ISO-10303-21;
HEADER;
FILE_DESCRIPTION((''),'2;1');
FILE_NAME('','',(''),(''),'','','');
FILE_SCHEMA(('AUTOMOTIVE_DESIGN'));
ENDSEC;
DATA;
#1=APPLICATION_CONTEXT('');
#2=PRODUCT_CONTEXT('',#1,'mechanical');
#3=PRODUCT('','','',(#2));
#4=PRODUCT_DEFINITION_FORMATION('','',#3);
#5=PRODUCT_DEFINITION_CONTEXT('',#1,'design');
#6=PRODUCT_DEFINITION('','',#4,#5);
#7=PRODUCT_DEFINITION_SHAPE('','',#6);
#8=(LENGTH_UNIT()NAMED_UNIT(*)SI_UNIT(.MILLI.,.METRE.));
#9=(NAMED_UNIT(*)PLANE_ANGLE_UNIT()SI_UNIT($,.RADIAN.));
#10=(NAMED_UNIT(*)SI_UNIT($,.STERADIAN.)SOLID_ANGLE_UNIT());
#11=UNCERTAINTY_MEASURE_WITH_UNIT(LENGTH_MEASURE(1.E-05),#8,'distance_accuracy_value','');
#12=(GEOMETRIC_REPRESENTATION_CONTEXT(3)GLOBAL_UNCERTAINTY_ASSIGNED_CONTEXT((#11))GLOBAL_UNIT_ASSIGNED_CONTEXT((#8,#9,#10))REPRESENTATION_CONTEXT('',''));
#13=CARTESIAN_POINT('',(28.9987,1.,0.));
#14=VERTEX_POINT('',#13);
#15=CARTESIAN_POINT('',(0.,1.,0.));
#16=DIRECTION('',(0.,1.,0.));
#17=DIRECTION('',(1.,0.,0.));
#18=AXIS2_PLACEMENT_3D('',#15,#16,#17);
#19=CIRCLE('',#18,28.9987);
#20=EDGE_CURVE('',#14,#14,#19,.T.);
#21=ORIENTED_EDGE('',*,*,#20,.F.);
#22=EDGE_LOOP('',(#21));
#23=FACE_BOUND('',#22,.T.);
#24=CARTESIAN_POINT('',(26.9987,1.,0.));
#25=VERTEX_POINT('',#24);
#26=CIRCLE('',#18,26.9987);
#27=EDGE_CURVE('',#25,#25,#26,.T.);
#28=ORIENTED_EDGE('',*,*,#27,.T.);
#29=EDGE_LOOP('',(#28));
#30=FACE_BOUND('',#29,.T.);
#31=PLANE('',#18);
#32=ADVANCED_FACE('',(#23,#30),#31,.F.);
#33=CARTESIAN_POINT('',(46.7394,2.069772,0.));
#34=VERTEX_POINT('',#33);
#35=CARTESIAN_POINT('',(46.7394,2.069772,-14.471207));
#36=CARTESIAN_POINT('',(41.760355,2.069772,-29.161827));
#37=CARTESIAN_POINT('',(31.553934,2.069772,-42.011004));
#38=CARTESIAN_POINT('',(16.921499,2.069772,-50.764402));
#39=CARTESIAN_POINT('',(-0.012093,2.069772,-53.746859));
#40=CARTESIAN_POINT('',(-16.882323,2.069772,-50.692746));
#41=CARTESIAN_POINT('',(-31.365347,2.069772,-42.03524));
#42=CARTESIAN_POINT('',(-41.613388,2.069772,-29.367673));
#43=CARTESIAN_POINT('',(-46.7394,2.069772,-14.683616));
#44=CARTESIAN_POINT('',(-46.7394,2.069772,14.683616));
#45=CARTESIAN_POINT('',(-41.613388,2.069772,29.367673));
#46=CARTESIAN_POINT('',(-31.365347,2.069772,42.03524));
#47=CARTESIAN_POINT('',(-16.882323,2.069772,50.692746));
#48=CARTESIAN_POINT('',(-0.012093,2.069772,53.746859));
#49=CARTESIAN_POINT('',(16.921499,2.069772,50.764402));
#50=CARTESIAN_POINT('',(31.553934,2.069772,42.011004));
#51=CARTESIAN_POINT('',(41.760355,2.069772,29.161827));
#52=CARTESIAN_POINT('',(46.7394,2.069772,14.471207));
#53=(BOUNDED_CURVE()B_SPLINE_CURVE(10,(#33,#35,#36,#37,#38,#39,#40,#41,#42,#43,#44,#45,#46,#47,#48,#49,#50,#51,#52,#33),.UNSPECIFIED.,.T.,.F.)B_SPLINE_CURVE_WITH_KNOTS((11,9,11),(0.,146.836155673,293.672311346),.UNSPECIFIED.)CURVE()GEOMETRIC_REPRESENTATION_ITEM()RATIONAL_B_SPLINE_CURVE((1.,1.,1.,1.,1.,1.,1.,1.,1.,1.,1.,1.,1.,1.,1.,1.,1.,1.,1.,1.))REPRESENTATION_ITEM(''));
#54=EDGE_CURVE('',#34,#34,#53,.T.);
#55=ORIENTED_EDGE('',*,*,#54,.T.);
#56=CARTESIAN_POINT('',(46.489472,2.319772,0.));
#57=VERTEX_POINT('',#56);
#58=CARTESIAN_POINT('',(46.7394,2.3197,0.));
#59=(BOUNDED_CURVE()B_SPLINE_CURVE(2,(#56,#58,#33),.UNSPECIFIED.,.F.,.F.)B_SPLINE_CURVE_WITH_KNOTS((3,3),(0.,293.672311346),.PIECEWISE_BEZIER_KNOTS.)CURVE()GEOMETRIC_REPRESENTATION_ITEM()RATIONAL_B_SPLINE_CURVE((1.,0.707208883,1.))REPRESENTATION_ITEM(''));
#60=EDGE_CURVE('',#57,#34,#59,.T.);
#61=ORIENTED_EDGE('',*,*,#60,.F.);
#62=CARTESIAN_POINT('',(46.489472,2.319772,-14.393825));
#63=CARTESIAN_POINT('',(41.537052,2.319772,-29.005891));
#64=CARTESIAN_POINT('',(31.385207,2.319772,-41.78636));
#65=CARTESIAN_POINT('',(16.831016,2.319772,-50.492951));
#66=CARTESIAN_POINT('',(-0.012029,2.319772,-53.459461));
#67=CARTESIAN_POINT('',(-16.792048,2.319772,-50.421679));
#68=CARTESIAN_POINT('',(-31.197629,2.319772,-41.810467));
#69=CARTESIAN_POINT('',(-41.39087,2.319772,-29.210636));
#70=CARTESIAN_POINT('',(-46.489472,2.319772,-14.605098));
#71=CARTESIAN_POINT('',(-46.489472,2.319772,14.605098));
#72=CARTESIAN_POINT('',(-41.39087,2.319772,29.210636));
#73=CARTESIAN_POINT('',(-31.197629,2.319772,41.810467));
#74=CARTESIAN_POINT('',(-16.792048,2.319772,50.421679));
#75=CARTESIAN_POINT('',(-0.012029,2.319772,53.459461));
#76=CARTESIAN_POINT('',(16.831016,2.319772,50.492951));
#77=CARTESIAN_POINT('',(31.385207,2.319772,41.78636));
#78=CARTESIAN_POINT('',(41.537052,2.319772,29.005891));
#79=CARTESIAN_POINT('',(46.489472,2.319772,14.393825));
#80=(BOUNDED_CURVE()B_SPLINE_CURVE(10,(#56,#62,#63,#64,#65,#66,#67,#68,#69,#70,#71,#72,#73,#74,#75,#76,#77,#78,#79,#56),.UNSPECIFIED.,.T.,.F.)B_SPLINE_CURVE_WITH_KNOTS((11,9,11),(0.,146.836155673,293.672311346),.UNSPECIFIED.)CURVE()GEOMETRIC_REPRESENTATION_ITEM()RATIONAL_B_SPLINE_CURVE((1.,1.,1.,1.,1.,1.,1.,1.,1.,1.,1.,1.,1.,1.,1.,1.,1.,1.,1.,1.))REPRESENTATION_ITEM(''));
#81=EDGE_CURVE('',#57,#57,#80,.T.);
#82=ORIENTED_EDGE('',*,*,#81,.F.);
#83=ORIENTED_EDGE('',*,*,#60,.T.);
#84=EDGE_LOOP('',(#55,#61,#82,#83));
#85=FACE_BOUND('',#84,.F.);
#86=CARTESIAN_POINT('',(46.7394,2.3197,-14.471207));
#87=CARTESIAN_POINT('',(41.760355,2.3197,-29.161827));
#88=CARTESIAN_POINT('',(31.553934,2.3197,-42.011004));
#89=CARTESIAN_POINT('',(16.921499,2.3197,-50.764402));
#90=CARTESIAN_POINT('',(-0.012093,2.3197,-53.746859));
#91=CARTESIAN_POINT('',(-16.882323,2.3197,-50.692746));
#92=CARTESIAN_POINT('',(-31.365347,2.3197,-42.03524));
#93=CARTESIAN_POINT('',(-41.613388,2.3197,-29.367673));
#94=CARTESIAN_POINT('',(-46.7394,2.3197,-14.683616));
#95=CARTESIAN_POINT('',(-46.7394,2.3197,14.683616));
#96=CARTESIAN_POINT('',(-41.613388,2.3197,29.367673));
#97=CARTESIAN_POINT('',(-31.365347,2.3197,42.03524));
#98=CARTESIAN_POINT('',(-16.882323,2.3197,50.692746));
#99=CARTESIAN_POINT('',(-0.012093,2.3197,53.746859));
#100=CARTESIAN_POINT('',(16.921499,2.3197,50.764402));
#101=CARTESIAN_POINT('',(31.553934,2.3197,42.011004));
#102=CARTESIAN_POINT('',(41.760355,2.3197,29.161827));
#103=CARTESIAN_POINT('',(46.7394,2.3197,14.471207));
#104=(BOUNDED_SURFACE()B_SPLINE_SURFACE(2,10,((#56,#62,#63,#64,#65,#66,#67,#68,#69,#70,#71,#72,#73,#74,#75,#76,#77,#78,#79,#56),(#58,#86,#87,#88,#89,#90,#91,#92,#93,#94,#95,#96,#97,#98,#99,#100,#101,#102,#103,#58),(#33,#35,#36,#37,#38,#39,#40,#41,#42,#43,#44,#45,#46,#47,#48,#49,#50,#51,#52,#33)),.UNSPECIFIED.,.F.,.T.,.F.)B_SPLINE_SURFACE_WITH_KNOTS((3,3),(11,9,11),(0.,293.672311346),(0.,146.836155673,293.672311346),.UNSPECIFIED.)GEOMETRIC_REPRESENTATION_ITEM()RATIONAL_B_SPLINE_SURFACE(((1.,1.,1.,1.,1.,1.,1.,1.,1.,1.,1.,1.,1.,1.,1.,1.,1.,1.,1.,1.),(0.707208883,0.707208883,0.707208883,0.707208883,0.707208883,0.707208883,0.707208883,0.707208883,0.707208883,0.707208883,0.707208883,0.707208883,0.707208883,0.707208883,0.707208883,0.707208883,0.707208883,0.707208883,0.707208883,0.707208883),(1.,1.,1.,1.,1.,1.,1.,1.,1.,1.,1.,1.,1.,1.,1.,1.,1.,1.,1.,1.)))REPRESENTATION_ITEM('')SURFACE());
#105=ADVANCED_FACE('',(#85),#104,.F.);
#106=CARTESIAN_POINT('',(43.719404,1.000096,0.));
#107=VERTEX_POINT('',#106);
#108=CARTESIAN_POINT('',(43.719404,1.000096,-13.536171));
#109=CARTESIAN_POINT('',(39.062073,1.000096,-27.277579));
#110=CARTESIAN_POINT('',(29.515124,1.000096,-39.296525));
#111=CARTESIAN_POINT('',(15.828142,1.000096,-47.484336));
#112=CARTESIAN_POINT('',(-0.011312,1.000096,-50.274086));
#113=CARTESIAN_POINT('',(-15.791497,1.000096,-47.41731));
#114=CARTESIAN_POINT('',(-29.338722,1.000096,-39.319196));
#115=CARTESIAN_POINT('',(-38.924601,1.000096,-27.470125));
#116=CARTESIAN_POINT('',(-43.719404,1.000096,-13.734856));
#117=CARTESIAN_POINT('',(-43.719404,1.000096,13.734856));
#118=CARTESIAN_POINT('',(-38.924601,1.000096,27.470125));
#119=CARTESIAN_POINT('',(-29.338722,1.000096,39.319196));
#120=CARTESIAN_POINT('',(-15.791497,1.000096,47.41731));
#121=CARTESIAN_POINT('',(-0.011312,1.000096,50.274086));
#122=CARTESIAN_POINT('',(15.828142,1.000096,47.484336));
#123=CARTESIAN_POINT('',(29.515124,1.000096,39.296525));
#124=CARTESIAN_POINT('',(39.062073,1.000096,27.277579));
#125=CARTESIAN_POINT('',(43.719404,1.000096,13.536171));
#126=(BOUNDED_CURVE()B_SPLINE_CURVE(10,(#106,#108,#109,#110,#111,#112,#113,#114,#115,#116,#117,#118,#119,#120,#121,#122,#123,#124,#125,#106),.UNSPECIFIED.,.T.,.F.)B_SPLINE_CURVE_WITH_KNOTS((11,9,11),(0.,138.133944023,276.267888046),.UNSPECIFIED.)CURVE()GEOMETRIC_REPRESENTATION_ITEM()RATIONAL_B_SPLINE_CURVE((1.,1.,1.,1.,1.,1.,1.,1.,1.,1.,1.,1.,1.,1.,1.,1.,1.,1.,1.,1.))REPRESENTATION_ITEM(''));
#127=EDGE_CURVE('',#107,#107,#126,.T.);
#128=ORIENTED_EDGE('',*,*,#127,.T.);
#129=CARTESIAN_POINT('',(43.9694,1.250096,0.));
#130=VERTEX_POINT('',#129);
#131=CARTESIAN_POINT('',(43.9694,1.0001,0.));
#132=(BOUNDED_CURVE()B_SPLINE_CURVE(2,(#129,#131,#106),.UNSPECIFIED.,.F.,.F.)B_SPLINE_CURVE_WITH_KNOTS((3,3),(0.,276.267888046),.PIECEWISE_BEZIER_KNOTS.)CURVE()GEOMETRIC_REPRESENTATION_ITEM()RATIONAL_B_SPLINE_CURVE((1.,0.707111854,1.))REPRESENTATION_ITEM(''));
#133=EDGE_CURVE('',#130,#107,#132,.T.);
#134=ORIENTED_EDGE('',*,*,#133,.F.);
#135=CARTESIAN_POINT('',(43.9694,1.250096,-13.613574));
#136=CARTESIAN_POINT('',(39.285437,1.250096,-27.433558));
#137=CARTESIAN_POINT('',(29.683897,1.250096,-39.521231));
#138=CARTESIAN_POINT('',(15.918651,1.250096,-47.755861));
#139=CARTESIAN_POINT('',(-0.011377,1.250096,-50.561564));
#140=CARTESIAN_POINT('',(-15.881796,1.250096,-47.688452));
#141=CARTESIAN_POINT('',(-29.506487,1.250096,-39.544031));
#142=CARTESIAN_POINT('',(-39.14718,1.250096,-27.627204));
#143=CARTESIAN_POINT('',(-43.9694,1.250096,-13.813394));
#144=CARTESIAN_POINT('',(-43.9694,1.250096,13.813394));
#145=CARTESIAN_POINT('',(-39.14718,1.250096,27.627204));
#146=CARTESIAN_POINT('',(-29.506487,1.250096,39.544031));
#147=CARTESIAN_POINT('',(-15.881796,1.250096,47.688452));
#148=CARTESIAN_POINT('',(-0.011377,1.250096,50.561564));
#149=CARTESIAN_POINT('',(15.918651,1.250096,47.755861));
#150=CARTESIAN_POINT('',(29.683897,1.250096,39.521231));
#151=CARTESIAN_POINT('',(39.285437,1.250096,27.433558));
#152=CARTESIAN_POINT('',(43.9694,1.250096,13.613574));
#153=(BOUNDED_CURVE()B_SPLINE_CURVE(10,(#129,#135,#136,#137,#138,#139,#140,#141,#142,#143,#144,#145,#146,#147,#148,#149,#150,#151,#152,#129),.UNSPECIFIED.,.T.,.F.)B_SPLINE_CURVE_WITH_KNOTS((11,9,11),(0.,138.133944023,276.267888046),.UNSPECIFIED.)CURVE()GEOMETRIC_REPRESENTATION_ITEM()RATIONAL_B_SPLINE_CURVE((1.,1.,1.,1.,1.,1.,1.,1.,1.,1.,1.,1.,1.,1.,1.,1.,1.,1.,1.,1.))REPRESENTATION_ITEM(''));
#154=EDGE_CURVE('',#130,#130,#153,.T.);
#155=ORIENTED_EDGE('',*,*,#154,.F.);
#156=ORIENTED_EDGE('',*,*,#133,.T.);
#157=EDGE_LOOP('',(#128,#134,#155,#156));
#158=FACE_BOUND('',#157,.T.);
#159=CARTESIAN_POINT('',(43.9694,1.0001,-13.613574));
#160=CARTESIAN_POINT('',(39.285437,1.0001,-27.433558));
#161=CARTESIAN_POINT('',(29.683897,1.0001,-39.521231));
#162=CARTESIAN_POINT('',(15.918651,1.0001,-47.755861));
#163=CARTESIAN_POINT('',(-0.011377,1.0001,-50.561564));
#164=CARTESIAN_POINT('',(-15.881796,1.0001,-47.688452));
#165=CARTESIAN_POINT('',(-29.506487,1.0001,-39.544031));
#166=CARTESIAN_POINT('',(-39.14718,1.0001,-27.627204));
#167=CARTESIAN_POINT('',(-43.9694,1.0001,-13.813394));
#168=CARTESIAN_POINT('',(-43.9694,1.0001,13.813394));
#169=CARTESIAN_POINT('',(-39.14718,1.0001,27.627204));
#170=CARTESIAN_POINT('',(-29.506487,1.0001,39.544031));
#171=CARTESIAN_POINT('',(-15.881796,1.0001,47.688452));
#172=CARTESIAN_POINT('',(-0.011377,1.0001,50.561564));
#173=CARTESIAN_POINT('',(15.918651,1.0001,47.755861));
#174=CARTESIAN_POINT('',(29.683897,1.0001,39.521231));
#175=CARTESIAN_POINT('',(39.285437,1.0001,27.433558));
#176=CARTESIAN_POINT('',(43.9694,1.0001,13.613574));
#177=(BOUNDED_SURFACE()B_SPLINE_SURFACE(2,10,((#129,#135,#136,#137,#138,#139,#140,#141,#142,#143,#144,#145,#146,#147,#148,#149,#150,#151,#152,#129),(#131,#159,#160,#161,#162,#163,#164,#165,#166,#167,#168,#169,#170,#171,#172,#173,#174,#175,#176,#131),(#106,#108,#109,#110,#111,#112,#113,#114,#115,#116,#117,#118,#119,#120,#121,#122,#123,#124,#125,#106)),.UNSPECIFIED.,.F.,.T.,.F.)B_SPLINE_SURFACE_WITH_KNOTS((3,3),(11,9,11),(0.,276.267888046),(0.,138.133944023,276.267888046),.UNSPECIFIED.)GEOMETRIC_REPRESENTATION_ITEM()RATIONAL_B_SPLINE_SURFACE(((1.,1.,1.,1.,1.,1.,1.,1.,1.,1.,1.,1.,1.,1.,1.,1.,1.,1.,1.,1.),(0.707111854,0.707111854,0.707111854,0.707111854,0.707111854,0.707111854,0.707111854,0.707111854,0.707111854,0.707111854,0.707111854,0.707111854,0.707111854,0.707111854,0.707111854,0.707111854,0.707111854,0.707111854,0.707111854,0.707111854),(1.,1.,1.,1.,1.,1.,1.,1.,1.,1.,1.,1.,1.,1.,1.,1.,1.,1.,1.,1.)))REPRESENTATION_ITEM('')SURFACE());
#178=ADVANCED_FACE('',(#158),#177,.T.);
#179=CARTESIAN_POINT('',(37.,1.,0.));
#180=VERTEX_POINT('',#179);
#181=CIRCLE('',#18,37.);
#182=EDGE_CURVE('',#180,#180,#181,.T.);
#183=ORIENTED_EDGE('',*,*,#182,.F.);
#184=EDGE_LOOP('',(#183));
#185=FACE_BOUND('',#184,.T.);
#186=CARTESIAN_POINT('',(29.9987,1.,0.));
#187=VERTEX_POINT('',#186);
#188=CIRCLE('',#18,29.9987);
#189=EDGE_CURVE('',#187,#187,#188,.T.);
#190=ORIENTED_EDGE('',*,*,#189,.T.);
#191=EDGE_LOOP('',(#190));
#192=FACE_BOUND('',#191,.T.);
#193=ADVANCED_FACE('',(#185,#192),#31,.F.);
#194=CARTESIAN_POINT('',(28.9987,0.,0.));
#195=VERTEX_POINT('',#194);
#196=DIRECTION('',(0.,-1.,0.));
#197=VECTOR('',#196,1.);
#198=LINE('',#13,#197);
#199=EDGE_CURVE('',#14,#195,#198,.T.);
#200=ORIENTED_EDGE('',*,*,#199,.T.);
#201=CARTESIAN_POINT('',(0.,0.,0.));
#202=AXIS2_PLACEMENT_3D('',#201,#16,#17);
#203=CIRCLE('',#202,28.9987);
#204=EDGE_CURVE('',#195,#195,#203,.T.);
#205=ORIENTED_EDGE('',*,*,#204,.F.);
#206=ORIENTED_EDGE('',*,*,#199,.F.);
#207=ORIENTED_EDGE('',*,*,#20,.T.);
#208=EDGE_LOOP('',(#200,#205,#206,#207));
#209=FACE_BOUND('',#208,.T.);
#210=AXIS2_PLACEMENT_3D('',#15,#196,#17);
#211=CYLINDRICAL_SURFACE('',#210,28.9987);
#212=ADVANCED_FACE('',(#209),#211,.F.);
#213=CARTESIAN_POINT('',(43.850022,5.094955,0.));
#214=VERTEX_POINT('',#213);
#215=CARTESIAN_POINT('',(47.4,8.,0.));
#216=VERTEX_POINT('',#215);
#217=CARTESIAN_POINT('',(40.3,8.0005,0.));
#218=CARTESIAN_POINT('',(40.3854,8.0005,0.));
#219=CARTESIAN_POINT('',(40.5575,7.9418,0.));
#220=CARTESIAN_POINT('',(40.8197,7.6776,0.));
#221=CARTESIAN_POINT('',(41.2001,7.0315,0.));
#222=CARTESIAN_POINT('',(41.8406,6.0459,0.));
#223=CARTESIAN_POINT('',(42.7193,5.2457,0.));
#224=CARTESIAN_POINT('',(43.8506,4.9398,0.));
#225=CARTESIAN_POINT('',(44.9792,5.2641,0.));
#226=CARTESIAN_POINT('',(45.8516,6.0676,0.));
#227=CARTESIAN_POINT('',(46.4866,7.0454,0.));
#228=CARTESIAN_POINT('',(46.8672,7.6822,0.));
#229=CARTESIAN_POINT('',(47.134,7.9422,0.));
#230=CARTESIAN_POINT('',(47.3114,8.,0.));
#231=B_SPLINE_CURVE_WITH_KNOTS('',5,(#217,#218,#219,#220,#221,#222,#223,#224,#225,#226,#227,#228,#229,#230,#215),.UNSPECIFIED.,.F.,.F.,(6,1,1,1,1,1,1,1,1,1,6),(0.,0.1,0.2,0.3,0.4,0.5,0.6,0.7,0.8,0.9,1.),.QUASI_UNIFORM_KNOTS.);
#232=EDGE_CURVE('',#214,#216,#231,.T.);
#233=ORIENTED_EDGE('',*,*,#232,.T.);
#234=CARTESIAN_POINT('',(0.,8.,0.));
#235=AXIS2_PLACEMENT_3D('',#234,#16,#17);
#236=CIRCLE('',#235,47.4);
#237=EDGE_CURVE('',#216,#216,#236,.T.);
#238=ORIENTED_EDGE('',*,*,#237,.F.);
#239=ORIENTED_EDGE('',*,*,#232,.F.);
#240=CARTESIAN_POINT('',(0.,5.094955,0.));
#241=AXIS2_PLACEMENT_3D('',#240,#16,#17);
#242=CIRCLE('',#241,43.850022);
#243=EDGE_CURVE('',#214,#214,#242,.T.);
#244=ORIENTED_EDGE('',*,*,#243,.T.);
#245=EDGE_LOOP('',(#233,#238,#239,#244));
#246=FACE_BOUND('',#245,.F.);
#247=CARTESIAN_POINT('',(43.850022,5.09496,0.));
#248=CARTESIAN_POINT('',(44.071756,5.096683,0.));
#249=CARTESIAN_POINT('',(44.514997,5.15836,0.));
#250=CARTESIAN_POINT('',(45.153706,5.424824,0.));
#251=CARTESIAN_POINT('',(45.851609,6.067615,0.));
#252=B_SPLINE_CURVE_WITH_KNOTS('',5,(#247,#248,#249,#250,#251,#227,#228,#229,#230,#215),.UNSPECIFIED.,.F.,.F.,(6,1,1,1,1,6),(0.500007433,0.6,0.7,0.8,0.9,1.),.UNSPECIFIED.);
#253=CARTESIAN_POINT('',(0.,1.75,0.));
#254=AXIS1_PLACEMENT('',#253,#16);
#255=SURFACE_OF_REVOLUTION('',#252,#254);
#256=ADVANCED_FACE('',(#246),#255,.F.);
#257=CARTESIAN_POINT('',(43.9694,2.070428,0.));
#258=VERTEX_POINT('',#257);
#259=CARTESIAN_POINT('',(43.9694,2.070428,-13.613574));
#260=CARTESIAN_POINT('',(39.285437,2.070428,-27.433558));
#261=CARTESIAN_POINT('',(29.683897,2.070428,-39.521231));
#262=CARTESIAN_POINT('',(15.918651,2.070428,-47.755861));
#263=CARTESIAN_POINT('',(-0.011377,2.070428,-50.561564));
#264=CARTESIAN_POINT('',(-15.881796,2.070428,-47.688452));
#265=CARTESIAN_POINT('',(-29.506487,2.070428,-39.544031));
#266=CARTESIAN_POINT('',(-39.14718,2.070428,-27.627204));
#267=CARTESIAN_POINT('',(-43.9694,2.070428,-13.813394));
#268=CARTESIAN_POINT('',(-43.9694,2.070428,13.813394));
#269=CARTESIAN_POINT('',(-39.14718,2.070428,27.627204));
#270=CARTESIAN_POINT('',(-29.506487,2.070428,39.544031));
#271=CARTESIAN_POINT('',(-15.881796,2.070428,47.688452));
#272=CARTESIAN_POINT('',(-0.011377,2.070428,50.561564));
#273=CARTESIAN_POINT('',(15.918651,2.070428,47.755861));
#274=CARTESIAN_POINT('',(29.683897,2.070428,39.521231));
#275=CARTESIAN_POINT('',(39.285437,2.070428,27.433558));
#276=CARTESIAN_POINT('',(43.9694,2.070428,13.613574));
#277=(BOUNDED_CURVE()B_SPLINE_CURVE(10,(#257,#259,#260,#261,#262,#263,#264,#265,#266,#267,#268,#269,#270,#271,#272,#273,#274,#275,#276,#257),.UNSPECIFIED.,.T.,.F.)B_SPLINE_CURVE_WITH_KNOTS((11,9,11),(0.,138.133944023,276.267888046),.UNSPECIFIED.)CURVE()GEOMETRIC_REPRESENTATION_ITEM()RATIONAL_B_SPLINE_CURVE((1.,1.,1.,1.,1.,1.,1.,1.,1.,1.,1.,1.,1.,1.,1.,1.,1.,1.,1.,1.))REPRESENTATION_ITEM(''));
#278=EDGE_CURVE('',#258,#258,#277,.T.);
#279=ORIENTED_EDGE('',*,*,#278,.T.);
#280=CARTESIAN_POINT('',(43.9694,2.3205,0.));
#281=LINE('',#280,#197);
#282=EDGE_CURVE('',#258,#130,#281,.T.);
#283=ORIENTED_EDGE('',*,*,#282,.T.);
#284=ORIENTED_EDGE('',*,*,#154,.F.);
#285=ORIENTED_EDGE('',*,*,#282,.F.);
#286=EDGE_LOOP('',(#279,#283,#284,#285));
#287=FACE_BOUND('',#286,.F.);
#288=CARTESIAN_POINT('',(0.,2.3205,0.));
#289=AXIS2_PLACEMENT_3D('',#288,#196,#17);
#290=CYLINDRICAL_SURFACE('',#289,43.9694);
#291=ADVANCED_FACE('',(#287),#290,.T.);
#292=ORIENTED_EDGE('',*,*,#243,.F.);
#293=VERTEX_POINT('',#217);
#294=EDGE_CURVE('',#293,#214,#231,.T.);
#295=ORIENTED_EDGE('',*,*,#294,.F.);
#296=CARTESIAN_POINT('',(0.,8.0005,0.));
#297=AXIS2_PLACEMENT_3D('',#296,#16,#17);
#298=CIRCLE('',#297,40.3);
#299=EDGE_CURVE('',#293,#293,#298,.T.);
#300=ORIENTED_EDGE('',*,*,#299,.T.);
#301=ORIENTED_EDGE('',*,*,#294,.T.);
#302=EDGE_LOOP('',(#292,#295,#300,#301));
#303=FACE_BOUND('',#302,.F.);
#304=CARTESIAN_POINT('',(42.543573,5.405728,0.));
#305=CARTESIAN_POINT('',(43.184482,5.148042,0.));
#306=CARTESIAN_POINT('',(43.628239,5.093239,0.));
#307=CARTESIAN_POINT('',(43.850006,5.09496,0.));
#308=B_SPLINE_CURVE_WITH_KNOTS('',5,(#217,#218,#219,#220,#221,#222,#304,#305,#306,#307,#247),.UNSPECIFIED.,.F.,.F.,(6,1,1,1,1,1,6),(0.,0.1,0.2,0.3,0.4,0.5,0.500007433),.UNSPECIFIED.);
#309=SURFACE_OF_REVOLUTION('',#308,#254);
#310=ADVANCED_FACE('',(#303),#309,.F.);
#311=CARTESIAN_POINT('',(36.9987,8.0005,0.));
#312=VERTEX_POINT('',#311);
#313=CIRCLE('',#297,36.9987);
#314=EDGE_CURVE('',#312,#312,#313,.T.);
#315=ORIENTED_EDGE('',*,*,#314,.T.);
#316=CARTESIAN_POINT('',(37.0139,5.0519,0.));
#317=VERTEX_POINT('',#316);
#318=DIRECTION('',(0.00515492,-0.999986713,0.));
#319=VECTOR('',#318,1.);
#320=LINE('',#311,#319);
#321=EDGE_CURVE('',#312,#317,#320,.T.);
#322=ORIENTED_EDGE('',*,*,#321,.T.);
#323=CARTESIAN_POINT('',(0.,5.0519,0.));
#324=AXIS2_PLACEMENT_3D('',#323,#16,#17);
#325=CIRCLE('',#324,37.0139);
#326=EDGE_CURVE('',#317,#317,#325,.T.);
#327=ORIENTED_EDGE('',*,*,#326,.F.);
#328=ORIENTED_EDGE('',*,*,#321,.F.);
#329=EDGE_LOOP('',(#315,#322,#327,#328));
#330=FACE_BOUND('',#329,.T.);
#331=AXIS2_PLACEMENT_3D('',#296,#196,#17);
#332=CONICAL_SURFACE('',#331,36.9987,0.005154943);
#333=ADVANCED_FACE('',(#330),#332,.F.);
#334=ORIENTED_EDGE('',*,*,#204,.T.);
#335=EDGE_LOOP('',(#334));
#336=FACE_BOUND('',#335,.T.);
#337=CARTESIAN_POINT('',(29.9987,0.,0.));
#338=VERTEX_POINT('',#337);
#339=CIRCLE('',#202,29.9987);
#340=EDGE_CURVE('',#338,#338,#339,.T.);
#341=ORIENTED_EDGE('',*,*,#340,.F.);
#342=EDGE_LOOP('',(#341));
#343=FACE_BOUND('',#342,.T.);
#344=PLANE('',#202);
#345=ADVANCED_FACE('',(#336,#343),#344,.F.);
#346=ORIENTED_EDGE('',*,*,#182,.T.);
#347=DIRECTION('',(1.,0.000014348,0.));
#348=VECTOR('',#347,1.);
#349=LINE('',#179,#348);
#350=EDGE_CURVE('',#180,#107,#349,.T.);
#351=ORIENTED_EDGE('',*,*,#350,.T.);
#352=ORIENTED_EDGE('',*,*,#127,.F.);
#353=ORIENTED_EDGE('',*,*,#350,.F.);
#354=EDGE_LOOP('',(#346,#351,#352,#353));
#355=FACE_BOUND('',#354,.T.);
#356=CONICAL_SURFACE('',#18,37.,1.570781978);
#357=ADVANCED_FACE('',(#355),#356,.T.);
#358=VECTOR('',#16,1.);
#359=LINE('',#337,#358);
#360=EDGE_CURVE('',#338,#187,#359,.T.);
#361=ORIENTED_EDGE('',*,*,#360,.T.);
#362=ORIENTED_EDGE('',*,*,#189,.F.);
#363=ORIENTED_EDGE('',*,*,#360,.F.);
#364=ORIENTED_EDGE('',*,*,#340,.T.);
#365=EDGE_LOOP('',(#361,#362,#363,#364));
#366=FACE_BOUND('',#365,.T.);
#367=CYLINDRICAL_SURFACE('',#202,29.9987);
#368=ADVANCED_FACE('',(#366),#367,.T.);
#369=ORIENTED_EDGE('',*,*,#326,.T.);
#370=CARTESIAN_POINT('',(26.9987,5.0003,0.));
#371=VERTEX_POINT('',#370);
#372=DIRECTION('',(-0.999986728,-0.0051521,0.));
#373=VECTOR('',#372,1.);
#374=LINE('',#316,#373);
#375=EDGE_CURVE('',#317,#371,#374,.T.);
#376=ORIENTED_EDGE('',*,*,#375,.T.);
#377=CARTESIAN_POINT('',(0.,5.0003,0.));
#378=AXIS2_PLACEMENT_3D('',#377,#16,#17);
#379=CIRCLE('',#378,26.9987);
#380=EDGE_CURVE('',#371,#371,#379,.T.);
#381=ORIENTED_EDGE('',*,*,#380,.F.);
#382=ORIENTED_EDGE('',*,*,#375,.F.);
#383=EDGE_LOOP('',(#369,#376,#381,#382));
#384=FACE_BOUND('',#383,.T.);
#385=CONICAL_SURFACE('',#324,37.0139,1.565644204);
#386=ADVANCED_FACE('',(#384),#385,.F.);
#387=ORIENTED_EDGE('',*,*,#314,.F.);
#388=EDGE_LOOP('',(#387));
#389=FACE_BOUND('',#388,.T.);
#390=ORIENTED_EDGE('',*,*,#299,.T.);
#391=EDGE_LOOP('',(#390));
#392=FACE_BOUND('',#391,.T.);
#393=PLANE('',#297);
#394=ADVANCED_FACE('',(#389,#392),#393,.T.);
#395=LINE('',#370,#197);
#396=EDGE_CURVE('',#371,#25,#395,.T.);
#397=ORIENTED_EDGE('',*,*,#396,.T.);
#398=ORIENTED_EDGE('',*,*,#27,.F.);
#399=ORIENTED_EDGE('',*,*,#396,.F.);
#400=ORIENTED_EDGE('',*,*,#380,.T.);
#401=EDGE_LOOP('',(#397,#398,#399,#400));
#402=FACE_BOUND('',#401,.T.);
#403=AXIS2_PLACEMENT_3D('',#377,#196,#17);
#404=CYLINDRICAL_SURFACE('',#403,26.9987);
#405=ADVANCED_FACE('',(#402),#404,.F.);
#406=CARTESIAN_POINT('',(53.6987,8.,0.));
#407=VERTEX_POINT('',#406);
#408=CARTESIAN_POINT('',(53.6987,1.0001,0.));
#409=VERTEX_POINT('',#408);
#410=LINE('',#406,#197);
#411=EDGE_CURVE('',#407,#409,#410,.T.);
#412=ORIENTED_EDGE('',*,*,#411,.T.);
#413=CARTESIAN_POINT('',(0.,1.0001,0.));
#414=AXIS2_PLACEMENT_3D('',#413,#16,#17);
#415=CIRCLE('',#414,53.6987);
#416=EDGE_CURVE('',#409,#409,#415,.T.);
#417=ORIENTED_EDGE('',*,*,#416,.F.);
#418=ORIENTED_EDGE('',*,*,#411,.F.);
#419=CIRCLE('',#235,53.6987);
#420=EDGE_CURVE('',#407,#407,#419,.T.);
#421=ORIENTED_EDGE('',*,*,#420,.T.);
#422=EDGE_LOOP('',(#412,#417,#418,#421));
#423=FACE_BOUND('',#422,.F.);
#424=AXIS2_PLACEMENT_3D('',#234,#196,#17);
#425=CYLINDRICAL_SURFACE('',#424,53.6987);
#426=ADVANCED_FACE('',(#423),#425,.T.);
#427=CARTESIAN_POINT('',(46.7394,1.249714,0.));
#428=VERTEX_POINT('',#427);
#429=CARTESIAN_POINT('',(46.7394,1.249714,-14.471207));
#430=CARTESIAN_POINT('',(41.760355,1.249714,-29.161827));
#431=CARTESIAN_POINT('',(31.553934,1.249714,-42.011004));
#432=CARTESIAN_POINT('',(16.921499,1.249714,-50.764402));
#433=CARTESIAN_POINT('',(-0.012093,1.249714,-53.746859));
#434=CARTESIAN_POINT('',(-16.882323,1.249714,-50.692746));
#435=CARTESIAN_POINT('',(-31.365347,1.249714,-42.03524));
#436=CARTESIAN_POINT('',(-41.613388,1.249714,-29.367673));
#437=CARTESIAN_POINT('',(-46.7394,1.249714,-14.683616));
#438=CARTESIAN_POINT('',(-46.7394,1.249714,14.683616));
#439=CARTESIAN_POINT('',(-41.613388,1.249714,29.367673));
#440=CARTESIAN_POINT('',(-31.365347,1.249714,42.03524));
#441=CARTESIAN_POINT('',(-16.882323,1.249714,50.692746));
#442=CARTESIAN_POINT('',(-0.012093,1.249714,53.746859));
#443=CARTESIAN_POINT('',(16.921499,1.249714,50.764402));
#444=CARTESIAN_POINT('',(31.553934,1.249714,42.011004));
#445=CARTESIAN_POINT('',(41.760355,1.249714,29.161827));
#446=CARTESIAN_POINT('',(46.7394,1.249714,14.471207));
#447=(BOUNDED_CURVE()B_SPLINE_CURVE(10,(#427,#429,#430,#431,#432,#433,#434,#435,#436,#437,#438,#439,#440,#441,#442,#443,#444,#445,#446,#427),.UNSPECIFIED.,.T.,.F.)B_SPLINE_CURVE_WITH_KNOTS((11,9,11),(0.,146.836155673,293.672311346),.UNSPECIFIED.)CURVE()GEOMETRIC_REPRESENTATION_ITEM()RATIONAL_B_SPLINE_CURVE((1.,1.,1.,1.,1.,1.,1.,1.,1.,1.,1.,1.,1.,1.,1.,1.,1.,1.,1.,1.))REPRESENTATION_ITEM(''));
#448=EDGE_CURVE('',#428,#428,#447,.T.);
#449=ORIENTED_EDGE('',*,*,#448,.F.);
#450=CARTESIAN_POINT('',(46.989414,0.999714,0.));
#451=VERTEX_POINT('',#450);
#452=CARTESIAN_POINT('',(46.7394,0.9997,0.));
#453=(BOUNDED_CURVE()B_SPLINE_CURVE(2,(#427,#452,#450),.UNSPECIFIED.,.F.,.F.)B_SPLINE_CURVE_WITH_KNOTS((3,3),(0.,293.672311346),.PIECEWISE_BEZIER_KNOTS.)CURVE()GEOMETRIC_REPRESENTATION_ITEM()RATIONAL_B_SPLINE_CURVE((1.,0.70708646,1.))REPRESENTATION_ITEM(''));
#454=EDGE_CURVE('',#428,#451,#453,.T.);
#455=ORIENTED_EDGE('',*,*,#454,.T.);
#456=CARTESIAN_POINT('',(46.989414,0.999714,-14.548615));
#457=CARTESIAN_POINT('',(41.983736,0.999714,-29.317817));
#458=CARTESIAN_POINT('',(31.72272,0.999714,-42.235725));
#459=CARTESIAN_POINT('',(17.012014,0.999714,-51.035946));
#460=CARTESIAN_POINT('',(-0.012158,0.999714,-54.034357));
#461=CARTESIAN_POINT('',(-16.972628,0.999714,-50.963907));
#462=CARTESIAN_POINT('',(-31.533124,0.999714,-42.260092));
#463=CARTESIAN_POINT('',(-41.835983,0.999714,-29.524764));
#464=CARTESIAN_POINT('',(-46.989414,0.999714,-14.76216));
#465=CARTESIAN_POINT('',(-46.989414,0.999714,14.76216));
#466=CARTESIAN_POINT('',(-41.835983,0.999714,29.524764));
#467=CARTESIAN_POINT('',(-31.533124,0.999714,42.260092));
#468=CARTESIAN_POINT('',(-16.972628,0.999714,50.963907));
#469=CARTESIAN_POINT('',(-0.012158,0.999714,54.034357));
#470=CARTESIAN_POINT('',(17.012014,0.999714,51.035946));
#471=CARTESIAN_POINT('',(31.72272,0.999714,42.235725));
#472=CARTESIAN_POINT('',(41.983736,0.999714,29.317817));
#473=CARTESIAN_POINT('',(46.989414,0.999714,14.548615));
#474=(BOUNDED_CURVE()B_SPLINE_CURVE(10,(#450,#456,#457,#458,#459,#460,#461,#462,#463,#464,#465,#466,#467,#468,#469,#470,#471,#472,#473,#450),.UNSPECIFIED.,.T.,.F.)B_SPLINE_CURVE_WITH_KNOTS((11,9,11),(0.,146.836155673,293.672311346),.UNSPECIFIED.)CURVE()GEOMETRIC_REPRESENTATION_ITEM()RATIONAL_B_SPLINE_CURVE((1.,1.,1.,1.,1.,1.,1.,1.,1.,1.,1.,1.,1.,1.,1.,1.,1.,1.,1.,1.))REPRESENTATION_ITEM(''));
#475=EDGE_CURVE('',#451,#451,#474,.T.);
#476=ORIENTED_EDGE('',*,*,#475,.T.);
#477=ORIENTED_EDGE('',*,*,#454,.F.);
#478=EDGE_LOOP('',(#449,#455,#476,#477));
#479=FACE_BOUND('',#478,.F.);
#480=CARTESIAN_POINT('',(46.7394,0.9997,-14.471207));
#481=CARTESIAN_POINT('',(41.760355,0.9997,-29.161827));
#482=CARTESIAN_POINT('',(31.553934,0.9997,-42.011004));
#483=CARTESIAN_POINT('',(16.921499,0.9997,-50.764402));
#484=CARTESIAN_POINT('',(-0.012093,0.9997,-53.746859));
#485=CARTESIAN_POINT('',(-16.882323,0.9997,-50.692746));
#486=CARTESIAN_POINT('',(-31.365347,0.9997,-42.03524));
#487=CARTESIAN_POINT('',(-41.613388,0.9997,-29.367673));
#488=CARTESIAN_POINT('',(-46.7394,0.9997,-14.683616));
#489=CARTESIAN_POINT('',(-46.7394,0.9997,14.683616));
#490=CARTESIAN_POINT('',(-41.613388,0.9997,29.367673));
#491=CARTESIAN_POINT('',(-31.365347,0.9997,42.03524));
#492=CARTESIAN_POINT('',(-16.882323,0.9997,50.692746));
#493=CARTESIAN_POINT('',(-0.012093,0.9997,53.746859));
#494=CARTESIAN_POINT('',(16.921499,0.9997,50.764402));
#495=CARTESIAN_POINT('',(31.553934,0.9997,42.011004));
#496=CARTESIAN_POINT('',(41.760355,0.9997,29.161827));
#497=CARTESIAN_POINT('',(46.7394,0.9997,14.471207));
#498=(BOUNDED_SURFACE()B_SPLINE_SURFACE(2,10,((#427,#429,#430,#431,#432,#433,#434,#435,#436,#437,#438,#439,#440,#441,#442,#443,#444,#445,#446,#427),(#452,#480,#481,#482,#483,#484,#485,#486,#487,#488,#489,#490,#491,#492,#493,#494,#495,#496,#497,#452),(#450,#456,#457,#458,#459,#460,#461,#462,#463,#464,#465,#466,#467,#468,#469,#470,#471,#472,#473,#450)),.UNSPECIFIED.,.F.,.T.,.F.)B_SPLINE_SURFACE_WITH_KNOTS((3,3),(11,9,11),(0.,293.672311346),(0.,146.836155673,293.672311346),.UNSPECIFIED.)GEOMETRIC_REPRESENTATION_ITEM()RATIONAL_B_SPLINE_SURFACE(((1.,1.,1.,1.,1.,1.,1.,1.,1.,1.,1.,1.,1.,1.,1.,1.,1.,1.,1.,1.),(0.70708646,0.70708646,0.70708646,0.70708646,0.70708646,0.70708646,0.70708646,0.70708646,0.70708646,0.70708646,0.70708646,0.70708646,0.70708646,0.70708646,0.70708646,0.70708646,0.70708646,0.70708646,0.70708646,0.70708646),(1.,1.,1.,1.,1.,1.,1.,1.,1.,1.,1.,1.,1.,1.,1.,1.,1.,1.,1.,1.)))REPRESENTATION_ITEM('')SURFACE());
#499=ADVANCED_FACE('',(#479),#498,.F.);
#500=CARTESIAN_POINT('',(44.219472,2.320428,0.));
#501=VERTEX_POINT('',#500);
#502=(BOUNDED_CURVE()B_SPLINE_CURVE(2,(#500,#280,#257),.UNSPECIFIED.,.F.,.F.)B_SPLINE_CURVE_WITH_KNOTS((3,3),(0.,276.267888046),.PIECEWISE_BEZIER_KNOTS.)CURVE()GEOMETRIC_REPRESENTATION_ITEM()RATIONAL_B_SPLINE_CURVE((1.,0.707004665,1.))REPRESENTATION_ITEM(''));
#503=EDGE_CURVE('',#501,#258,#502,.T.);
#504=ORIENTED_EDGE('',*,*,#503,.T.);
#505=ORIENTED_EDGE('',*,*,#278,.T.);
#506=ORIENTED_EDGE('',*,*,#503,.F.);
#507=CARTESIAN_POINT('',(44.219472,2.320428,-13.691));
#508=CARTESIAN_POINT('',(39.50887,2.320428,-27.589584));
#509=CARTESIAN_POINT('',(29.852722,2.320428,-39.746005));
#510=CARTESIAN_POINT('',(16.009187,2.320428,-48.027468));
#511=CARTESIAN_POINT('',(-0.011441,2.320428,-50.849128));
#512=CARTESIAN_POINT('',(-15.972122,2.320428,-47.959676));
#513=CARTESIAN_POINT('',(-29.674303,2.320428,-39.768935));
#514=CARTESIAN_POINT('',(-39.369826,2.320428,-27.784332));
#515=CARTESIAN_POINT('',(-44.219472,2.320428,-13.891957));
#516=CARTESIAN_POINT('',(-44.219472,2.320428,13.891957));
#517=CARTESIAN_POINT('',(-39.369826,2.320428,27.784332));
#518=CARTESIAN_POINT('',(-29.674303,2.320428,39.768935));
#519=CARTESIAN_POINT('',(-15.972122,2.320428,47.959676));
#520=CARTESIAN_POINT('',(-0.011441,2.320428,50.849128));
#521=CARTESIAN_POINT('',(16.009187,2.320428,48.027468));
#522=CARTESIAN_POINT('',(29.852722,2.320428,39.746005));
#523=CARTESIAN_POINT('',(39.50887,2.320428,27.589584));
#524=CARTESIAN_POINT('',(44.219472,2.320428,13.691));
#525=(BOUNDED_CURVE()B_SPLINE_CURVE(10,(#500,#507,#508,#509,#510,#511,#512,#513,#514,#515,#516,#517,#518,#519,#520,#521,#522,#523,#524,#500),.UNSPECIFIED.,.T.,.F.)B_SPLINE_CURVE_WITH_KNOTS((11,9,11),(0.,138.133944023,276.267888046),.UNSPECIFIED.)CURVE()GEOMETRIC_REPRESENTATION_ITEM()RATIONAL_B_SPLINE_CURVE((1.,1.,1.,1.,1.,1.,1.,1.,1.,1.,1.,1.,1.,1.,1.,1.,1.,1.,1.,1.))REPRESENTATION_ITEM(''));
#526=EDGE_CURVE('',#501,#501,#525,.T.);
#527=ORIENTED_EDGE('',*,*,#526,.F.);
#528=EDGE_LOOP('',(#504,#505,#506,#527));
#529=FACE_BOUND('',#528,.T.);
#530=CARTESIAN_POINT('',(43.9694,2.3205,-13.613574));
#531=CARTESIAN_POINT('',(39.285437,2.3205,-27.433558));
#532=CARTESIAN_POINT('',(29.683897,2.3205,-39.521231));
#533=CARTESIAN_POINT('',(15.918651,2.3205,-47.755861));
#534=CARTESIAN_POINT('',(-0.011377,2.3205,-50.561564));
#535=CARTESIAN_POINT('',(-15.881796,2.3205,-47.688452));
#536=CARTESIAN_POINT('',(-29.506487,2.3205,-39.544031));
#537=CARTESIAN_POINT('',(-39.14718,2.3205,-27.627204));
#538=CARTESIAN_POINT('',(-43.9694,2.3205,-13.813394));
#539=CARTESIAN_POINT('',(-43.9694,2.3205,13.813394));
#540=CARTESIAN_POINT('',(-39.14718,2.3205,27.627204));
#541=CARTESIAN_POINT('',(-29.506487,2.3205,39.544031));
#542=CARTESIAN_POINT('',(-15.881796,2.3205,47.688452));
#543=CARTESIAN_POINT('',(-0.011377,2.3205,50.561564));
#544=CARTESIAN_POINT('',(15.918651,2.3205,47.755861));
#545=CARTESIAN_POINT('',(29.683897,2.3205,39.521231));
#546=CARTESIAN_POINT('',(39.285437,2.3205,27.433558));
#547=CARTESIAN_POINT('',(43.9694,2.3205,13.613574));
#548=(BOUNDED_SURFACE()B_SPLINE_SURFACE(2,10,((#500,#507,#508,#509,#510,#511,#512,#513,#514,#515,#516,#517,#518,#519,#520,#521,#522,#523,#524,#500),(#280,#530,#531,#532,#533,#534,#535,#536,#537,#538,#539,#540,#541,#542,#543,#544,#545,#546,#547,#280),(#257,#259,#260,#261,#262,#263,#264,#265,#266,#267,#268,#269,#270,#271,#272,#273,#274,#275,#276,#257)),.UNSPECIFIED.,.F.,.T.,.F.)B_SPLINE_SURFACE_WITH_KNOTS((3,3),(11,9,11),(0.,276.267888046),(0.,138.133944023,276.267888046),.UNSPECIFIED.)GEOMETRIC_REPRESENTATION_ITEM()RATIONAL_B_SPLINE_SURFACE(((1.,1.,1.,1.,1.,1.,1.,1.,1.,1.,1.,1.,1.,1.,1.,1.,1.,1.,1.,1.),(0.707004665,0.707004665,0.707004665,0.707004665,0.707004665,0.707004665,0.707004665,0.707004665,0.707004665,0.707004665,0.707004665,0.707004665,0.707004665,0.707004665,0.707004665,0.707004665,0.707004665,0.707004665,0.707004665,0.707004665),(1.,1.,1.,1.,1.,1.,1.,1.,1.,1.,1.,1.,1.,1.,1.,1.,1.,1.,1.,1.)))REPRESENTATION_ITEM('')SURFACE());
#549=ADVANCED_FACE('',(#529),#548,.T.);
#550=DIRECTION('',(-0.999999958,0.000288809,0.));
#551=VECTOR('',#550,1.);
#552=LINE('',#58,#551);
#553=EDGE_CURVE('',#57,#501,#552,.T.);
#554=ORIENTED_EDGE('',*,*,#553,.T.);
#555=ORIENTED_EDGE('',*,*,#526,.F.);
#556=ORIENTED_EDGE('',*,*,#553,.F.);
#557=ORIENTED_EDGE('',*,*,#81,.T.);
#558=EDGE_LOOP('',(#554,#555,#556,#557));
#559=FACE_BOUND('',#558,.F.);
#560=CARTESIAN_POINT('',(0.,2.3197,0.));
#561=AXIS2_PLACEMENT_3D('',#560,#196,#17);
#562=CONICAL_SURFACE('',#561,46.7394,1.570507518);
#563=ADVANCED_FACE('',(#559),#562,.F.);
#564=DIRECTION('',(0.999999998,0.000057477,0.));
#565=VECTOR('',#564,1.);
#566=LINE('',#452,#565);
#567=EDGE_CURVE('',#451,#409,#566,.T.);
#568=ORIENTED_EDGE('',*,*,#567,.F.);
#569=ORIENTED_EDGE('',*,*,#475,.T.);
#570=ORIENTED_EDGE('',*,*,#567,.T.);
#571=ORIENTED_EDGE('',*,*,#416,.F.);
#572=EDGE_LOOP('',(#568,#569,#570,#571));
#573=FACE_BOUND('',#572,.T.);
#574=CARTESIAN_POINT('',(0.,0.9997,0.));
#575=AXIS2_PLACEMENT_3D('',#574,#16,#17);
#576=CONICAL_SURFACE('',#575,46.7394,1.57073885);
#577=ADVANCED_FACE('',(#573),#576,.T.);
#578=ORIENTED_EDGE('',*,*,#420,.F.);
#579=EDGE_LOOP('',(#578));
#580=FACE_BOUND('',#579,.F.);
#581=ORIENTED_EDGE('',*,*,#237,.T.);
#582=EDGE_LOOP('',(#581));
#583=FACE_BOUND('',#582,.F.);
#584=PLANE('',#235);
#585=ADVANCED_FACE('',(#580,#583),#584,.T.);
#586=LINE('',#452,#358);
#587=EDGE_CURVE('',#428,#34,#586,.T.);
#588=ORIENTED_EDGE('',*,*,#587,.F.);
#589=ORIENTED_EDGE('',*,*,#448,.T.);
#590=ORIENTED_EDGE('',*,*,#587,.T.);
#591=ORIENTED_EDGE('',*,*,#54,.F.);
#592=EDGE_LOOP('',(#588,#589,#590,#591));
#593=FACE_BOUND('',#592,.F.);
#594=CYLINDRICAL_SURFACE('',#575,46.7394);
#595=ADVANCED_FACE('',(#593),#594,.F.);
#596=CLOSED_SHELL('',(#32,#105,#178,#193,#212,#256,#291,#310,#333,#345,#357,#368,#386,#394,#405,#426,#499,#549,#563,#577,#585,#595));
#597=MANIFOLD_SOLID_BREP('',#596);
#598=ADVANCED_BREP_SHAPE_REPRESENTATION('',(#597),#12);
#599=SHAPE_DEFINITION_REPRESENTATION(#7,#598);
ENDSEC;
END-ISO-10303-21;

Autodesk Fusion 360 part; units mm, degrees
sketch "Sketch1" plane through (0, 0, 0) normal (0, 0, 1) x (1, 0, 0)
  spline S0 degree 5 poles (40.3, 8.0005) (40.3854, 8.0005) (40.5575, 7.9418) (40.8197, 7.6776) (41.2001, 7.0315) (41.8406, 6.0459) (42.7193, 5.2457) (43.8506, 4.9398) (44.9792, 5.2641) (45.8516, 6.0676) (46.4866, 7.0454) (46.8672, 7.6822) (47.134, 7.9422) (47.3114, 8) (47.4, 8) knots 0 0 0 0 0 0 0.1 0.2 0.3 0.4 0.5 0.6 0.7 0.8 0.9 1 1 1 1 1 1
  line L0 (40.3, 8.0005) -> (36.9987, 8.0005)
  line L1 (47.4, 8) -> (53.6987, 8)
  line L2 (47.1403, 8) -> (47.6598, 8)
  line L3 (40.0497, 8.0005) -> (40.5503, 8.0005)
  line L4 (53.6987, 8) -> (53.6987, 1.0001)
  line L5 (43.2, 5.0899) -> (44.5, 5.1)
  line L6 (46.7394, 0.9997) -> (46.7394, 2.3197)
  line L7 (46.7394, 2.3197) -> (43.9694, 2.3205)
  line L8 (43.9694, 2.3205) -> (43.9694, 1.0001)
  line L9 (37, 1) -> (43.9694, 1.0001)
  line L10 (46.7394, 0.9997) -> (53.6987, 1.0001)
  line L11 (36.9987, 8.0005) -> (37.0139, 5.0519)
  line L12 (37.0139, 5.0519) -> (26.9987, 5.0003)
  line L13 (26.9987, 5.0003) -> (26.9987, 1)
  line L14 (26.9987, 1) -> (28.9987, 1)
  line L15 (28.9987, 1) -> (28.9987, 0)
  line L16 (28.9987, 0) -> (29.9987, 0)
  line L17 (29.9987, 0) -> (29.9987, 1)
  line L18 (29.9987, 1) -> (37, 1)
  point P0 (43.85, 5.095)
  dimension "d4" = 16.7
  dimension "d19" = 1.32
  dimension "d20" = 2.77
  dimension "d30" = 2
  dimension "d31" = 1
  dimension "d32" = 1
revolve "Revolve1" add sketch "Sketch1" angle 360 about axis through (0, 1.75, 0) along (0, 1, 0)
fillet "Fillet1" radius 0.25 1 edges at (-40.9938, 2.3205, -15.9)
fillet "Fillet2" radius 0.25 1 edges at (-43.5764, 2.3197, -16.9017)
fillet "Fillet3" radius 0.25 1 edges at (-40.9938, 1.0001, -15.9)
fillet "Fillet4" radius 0.25 1 edges at (-43.5764, 0.9997, -16.9017)
